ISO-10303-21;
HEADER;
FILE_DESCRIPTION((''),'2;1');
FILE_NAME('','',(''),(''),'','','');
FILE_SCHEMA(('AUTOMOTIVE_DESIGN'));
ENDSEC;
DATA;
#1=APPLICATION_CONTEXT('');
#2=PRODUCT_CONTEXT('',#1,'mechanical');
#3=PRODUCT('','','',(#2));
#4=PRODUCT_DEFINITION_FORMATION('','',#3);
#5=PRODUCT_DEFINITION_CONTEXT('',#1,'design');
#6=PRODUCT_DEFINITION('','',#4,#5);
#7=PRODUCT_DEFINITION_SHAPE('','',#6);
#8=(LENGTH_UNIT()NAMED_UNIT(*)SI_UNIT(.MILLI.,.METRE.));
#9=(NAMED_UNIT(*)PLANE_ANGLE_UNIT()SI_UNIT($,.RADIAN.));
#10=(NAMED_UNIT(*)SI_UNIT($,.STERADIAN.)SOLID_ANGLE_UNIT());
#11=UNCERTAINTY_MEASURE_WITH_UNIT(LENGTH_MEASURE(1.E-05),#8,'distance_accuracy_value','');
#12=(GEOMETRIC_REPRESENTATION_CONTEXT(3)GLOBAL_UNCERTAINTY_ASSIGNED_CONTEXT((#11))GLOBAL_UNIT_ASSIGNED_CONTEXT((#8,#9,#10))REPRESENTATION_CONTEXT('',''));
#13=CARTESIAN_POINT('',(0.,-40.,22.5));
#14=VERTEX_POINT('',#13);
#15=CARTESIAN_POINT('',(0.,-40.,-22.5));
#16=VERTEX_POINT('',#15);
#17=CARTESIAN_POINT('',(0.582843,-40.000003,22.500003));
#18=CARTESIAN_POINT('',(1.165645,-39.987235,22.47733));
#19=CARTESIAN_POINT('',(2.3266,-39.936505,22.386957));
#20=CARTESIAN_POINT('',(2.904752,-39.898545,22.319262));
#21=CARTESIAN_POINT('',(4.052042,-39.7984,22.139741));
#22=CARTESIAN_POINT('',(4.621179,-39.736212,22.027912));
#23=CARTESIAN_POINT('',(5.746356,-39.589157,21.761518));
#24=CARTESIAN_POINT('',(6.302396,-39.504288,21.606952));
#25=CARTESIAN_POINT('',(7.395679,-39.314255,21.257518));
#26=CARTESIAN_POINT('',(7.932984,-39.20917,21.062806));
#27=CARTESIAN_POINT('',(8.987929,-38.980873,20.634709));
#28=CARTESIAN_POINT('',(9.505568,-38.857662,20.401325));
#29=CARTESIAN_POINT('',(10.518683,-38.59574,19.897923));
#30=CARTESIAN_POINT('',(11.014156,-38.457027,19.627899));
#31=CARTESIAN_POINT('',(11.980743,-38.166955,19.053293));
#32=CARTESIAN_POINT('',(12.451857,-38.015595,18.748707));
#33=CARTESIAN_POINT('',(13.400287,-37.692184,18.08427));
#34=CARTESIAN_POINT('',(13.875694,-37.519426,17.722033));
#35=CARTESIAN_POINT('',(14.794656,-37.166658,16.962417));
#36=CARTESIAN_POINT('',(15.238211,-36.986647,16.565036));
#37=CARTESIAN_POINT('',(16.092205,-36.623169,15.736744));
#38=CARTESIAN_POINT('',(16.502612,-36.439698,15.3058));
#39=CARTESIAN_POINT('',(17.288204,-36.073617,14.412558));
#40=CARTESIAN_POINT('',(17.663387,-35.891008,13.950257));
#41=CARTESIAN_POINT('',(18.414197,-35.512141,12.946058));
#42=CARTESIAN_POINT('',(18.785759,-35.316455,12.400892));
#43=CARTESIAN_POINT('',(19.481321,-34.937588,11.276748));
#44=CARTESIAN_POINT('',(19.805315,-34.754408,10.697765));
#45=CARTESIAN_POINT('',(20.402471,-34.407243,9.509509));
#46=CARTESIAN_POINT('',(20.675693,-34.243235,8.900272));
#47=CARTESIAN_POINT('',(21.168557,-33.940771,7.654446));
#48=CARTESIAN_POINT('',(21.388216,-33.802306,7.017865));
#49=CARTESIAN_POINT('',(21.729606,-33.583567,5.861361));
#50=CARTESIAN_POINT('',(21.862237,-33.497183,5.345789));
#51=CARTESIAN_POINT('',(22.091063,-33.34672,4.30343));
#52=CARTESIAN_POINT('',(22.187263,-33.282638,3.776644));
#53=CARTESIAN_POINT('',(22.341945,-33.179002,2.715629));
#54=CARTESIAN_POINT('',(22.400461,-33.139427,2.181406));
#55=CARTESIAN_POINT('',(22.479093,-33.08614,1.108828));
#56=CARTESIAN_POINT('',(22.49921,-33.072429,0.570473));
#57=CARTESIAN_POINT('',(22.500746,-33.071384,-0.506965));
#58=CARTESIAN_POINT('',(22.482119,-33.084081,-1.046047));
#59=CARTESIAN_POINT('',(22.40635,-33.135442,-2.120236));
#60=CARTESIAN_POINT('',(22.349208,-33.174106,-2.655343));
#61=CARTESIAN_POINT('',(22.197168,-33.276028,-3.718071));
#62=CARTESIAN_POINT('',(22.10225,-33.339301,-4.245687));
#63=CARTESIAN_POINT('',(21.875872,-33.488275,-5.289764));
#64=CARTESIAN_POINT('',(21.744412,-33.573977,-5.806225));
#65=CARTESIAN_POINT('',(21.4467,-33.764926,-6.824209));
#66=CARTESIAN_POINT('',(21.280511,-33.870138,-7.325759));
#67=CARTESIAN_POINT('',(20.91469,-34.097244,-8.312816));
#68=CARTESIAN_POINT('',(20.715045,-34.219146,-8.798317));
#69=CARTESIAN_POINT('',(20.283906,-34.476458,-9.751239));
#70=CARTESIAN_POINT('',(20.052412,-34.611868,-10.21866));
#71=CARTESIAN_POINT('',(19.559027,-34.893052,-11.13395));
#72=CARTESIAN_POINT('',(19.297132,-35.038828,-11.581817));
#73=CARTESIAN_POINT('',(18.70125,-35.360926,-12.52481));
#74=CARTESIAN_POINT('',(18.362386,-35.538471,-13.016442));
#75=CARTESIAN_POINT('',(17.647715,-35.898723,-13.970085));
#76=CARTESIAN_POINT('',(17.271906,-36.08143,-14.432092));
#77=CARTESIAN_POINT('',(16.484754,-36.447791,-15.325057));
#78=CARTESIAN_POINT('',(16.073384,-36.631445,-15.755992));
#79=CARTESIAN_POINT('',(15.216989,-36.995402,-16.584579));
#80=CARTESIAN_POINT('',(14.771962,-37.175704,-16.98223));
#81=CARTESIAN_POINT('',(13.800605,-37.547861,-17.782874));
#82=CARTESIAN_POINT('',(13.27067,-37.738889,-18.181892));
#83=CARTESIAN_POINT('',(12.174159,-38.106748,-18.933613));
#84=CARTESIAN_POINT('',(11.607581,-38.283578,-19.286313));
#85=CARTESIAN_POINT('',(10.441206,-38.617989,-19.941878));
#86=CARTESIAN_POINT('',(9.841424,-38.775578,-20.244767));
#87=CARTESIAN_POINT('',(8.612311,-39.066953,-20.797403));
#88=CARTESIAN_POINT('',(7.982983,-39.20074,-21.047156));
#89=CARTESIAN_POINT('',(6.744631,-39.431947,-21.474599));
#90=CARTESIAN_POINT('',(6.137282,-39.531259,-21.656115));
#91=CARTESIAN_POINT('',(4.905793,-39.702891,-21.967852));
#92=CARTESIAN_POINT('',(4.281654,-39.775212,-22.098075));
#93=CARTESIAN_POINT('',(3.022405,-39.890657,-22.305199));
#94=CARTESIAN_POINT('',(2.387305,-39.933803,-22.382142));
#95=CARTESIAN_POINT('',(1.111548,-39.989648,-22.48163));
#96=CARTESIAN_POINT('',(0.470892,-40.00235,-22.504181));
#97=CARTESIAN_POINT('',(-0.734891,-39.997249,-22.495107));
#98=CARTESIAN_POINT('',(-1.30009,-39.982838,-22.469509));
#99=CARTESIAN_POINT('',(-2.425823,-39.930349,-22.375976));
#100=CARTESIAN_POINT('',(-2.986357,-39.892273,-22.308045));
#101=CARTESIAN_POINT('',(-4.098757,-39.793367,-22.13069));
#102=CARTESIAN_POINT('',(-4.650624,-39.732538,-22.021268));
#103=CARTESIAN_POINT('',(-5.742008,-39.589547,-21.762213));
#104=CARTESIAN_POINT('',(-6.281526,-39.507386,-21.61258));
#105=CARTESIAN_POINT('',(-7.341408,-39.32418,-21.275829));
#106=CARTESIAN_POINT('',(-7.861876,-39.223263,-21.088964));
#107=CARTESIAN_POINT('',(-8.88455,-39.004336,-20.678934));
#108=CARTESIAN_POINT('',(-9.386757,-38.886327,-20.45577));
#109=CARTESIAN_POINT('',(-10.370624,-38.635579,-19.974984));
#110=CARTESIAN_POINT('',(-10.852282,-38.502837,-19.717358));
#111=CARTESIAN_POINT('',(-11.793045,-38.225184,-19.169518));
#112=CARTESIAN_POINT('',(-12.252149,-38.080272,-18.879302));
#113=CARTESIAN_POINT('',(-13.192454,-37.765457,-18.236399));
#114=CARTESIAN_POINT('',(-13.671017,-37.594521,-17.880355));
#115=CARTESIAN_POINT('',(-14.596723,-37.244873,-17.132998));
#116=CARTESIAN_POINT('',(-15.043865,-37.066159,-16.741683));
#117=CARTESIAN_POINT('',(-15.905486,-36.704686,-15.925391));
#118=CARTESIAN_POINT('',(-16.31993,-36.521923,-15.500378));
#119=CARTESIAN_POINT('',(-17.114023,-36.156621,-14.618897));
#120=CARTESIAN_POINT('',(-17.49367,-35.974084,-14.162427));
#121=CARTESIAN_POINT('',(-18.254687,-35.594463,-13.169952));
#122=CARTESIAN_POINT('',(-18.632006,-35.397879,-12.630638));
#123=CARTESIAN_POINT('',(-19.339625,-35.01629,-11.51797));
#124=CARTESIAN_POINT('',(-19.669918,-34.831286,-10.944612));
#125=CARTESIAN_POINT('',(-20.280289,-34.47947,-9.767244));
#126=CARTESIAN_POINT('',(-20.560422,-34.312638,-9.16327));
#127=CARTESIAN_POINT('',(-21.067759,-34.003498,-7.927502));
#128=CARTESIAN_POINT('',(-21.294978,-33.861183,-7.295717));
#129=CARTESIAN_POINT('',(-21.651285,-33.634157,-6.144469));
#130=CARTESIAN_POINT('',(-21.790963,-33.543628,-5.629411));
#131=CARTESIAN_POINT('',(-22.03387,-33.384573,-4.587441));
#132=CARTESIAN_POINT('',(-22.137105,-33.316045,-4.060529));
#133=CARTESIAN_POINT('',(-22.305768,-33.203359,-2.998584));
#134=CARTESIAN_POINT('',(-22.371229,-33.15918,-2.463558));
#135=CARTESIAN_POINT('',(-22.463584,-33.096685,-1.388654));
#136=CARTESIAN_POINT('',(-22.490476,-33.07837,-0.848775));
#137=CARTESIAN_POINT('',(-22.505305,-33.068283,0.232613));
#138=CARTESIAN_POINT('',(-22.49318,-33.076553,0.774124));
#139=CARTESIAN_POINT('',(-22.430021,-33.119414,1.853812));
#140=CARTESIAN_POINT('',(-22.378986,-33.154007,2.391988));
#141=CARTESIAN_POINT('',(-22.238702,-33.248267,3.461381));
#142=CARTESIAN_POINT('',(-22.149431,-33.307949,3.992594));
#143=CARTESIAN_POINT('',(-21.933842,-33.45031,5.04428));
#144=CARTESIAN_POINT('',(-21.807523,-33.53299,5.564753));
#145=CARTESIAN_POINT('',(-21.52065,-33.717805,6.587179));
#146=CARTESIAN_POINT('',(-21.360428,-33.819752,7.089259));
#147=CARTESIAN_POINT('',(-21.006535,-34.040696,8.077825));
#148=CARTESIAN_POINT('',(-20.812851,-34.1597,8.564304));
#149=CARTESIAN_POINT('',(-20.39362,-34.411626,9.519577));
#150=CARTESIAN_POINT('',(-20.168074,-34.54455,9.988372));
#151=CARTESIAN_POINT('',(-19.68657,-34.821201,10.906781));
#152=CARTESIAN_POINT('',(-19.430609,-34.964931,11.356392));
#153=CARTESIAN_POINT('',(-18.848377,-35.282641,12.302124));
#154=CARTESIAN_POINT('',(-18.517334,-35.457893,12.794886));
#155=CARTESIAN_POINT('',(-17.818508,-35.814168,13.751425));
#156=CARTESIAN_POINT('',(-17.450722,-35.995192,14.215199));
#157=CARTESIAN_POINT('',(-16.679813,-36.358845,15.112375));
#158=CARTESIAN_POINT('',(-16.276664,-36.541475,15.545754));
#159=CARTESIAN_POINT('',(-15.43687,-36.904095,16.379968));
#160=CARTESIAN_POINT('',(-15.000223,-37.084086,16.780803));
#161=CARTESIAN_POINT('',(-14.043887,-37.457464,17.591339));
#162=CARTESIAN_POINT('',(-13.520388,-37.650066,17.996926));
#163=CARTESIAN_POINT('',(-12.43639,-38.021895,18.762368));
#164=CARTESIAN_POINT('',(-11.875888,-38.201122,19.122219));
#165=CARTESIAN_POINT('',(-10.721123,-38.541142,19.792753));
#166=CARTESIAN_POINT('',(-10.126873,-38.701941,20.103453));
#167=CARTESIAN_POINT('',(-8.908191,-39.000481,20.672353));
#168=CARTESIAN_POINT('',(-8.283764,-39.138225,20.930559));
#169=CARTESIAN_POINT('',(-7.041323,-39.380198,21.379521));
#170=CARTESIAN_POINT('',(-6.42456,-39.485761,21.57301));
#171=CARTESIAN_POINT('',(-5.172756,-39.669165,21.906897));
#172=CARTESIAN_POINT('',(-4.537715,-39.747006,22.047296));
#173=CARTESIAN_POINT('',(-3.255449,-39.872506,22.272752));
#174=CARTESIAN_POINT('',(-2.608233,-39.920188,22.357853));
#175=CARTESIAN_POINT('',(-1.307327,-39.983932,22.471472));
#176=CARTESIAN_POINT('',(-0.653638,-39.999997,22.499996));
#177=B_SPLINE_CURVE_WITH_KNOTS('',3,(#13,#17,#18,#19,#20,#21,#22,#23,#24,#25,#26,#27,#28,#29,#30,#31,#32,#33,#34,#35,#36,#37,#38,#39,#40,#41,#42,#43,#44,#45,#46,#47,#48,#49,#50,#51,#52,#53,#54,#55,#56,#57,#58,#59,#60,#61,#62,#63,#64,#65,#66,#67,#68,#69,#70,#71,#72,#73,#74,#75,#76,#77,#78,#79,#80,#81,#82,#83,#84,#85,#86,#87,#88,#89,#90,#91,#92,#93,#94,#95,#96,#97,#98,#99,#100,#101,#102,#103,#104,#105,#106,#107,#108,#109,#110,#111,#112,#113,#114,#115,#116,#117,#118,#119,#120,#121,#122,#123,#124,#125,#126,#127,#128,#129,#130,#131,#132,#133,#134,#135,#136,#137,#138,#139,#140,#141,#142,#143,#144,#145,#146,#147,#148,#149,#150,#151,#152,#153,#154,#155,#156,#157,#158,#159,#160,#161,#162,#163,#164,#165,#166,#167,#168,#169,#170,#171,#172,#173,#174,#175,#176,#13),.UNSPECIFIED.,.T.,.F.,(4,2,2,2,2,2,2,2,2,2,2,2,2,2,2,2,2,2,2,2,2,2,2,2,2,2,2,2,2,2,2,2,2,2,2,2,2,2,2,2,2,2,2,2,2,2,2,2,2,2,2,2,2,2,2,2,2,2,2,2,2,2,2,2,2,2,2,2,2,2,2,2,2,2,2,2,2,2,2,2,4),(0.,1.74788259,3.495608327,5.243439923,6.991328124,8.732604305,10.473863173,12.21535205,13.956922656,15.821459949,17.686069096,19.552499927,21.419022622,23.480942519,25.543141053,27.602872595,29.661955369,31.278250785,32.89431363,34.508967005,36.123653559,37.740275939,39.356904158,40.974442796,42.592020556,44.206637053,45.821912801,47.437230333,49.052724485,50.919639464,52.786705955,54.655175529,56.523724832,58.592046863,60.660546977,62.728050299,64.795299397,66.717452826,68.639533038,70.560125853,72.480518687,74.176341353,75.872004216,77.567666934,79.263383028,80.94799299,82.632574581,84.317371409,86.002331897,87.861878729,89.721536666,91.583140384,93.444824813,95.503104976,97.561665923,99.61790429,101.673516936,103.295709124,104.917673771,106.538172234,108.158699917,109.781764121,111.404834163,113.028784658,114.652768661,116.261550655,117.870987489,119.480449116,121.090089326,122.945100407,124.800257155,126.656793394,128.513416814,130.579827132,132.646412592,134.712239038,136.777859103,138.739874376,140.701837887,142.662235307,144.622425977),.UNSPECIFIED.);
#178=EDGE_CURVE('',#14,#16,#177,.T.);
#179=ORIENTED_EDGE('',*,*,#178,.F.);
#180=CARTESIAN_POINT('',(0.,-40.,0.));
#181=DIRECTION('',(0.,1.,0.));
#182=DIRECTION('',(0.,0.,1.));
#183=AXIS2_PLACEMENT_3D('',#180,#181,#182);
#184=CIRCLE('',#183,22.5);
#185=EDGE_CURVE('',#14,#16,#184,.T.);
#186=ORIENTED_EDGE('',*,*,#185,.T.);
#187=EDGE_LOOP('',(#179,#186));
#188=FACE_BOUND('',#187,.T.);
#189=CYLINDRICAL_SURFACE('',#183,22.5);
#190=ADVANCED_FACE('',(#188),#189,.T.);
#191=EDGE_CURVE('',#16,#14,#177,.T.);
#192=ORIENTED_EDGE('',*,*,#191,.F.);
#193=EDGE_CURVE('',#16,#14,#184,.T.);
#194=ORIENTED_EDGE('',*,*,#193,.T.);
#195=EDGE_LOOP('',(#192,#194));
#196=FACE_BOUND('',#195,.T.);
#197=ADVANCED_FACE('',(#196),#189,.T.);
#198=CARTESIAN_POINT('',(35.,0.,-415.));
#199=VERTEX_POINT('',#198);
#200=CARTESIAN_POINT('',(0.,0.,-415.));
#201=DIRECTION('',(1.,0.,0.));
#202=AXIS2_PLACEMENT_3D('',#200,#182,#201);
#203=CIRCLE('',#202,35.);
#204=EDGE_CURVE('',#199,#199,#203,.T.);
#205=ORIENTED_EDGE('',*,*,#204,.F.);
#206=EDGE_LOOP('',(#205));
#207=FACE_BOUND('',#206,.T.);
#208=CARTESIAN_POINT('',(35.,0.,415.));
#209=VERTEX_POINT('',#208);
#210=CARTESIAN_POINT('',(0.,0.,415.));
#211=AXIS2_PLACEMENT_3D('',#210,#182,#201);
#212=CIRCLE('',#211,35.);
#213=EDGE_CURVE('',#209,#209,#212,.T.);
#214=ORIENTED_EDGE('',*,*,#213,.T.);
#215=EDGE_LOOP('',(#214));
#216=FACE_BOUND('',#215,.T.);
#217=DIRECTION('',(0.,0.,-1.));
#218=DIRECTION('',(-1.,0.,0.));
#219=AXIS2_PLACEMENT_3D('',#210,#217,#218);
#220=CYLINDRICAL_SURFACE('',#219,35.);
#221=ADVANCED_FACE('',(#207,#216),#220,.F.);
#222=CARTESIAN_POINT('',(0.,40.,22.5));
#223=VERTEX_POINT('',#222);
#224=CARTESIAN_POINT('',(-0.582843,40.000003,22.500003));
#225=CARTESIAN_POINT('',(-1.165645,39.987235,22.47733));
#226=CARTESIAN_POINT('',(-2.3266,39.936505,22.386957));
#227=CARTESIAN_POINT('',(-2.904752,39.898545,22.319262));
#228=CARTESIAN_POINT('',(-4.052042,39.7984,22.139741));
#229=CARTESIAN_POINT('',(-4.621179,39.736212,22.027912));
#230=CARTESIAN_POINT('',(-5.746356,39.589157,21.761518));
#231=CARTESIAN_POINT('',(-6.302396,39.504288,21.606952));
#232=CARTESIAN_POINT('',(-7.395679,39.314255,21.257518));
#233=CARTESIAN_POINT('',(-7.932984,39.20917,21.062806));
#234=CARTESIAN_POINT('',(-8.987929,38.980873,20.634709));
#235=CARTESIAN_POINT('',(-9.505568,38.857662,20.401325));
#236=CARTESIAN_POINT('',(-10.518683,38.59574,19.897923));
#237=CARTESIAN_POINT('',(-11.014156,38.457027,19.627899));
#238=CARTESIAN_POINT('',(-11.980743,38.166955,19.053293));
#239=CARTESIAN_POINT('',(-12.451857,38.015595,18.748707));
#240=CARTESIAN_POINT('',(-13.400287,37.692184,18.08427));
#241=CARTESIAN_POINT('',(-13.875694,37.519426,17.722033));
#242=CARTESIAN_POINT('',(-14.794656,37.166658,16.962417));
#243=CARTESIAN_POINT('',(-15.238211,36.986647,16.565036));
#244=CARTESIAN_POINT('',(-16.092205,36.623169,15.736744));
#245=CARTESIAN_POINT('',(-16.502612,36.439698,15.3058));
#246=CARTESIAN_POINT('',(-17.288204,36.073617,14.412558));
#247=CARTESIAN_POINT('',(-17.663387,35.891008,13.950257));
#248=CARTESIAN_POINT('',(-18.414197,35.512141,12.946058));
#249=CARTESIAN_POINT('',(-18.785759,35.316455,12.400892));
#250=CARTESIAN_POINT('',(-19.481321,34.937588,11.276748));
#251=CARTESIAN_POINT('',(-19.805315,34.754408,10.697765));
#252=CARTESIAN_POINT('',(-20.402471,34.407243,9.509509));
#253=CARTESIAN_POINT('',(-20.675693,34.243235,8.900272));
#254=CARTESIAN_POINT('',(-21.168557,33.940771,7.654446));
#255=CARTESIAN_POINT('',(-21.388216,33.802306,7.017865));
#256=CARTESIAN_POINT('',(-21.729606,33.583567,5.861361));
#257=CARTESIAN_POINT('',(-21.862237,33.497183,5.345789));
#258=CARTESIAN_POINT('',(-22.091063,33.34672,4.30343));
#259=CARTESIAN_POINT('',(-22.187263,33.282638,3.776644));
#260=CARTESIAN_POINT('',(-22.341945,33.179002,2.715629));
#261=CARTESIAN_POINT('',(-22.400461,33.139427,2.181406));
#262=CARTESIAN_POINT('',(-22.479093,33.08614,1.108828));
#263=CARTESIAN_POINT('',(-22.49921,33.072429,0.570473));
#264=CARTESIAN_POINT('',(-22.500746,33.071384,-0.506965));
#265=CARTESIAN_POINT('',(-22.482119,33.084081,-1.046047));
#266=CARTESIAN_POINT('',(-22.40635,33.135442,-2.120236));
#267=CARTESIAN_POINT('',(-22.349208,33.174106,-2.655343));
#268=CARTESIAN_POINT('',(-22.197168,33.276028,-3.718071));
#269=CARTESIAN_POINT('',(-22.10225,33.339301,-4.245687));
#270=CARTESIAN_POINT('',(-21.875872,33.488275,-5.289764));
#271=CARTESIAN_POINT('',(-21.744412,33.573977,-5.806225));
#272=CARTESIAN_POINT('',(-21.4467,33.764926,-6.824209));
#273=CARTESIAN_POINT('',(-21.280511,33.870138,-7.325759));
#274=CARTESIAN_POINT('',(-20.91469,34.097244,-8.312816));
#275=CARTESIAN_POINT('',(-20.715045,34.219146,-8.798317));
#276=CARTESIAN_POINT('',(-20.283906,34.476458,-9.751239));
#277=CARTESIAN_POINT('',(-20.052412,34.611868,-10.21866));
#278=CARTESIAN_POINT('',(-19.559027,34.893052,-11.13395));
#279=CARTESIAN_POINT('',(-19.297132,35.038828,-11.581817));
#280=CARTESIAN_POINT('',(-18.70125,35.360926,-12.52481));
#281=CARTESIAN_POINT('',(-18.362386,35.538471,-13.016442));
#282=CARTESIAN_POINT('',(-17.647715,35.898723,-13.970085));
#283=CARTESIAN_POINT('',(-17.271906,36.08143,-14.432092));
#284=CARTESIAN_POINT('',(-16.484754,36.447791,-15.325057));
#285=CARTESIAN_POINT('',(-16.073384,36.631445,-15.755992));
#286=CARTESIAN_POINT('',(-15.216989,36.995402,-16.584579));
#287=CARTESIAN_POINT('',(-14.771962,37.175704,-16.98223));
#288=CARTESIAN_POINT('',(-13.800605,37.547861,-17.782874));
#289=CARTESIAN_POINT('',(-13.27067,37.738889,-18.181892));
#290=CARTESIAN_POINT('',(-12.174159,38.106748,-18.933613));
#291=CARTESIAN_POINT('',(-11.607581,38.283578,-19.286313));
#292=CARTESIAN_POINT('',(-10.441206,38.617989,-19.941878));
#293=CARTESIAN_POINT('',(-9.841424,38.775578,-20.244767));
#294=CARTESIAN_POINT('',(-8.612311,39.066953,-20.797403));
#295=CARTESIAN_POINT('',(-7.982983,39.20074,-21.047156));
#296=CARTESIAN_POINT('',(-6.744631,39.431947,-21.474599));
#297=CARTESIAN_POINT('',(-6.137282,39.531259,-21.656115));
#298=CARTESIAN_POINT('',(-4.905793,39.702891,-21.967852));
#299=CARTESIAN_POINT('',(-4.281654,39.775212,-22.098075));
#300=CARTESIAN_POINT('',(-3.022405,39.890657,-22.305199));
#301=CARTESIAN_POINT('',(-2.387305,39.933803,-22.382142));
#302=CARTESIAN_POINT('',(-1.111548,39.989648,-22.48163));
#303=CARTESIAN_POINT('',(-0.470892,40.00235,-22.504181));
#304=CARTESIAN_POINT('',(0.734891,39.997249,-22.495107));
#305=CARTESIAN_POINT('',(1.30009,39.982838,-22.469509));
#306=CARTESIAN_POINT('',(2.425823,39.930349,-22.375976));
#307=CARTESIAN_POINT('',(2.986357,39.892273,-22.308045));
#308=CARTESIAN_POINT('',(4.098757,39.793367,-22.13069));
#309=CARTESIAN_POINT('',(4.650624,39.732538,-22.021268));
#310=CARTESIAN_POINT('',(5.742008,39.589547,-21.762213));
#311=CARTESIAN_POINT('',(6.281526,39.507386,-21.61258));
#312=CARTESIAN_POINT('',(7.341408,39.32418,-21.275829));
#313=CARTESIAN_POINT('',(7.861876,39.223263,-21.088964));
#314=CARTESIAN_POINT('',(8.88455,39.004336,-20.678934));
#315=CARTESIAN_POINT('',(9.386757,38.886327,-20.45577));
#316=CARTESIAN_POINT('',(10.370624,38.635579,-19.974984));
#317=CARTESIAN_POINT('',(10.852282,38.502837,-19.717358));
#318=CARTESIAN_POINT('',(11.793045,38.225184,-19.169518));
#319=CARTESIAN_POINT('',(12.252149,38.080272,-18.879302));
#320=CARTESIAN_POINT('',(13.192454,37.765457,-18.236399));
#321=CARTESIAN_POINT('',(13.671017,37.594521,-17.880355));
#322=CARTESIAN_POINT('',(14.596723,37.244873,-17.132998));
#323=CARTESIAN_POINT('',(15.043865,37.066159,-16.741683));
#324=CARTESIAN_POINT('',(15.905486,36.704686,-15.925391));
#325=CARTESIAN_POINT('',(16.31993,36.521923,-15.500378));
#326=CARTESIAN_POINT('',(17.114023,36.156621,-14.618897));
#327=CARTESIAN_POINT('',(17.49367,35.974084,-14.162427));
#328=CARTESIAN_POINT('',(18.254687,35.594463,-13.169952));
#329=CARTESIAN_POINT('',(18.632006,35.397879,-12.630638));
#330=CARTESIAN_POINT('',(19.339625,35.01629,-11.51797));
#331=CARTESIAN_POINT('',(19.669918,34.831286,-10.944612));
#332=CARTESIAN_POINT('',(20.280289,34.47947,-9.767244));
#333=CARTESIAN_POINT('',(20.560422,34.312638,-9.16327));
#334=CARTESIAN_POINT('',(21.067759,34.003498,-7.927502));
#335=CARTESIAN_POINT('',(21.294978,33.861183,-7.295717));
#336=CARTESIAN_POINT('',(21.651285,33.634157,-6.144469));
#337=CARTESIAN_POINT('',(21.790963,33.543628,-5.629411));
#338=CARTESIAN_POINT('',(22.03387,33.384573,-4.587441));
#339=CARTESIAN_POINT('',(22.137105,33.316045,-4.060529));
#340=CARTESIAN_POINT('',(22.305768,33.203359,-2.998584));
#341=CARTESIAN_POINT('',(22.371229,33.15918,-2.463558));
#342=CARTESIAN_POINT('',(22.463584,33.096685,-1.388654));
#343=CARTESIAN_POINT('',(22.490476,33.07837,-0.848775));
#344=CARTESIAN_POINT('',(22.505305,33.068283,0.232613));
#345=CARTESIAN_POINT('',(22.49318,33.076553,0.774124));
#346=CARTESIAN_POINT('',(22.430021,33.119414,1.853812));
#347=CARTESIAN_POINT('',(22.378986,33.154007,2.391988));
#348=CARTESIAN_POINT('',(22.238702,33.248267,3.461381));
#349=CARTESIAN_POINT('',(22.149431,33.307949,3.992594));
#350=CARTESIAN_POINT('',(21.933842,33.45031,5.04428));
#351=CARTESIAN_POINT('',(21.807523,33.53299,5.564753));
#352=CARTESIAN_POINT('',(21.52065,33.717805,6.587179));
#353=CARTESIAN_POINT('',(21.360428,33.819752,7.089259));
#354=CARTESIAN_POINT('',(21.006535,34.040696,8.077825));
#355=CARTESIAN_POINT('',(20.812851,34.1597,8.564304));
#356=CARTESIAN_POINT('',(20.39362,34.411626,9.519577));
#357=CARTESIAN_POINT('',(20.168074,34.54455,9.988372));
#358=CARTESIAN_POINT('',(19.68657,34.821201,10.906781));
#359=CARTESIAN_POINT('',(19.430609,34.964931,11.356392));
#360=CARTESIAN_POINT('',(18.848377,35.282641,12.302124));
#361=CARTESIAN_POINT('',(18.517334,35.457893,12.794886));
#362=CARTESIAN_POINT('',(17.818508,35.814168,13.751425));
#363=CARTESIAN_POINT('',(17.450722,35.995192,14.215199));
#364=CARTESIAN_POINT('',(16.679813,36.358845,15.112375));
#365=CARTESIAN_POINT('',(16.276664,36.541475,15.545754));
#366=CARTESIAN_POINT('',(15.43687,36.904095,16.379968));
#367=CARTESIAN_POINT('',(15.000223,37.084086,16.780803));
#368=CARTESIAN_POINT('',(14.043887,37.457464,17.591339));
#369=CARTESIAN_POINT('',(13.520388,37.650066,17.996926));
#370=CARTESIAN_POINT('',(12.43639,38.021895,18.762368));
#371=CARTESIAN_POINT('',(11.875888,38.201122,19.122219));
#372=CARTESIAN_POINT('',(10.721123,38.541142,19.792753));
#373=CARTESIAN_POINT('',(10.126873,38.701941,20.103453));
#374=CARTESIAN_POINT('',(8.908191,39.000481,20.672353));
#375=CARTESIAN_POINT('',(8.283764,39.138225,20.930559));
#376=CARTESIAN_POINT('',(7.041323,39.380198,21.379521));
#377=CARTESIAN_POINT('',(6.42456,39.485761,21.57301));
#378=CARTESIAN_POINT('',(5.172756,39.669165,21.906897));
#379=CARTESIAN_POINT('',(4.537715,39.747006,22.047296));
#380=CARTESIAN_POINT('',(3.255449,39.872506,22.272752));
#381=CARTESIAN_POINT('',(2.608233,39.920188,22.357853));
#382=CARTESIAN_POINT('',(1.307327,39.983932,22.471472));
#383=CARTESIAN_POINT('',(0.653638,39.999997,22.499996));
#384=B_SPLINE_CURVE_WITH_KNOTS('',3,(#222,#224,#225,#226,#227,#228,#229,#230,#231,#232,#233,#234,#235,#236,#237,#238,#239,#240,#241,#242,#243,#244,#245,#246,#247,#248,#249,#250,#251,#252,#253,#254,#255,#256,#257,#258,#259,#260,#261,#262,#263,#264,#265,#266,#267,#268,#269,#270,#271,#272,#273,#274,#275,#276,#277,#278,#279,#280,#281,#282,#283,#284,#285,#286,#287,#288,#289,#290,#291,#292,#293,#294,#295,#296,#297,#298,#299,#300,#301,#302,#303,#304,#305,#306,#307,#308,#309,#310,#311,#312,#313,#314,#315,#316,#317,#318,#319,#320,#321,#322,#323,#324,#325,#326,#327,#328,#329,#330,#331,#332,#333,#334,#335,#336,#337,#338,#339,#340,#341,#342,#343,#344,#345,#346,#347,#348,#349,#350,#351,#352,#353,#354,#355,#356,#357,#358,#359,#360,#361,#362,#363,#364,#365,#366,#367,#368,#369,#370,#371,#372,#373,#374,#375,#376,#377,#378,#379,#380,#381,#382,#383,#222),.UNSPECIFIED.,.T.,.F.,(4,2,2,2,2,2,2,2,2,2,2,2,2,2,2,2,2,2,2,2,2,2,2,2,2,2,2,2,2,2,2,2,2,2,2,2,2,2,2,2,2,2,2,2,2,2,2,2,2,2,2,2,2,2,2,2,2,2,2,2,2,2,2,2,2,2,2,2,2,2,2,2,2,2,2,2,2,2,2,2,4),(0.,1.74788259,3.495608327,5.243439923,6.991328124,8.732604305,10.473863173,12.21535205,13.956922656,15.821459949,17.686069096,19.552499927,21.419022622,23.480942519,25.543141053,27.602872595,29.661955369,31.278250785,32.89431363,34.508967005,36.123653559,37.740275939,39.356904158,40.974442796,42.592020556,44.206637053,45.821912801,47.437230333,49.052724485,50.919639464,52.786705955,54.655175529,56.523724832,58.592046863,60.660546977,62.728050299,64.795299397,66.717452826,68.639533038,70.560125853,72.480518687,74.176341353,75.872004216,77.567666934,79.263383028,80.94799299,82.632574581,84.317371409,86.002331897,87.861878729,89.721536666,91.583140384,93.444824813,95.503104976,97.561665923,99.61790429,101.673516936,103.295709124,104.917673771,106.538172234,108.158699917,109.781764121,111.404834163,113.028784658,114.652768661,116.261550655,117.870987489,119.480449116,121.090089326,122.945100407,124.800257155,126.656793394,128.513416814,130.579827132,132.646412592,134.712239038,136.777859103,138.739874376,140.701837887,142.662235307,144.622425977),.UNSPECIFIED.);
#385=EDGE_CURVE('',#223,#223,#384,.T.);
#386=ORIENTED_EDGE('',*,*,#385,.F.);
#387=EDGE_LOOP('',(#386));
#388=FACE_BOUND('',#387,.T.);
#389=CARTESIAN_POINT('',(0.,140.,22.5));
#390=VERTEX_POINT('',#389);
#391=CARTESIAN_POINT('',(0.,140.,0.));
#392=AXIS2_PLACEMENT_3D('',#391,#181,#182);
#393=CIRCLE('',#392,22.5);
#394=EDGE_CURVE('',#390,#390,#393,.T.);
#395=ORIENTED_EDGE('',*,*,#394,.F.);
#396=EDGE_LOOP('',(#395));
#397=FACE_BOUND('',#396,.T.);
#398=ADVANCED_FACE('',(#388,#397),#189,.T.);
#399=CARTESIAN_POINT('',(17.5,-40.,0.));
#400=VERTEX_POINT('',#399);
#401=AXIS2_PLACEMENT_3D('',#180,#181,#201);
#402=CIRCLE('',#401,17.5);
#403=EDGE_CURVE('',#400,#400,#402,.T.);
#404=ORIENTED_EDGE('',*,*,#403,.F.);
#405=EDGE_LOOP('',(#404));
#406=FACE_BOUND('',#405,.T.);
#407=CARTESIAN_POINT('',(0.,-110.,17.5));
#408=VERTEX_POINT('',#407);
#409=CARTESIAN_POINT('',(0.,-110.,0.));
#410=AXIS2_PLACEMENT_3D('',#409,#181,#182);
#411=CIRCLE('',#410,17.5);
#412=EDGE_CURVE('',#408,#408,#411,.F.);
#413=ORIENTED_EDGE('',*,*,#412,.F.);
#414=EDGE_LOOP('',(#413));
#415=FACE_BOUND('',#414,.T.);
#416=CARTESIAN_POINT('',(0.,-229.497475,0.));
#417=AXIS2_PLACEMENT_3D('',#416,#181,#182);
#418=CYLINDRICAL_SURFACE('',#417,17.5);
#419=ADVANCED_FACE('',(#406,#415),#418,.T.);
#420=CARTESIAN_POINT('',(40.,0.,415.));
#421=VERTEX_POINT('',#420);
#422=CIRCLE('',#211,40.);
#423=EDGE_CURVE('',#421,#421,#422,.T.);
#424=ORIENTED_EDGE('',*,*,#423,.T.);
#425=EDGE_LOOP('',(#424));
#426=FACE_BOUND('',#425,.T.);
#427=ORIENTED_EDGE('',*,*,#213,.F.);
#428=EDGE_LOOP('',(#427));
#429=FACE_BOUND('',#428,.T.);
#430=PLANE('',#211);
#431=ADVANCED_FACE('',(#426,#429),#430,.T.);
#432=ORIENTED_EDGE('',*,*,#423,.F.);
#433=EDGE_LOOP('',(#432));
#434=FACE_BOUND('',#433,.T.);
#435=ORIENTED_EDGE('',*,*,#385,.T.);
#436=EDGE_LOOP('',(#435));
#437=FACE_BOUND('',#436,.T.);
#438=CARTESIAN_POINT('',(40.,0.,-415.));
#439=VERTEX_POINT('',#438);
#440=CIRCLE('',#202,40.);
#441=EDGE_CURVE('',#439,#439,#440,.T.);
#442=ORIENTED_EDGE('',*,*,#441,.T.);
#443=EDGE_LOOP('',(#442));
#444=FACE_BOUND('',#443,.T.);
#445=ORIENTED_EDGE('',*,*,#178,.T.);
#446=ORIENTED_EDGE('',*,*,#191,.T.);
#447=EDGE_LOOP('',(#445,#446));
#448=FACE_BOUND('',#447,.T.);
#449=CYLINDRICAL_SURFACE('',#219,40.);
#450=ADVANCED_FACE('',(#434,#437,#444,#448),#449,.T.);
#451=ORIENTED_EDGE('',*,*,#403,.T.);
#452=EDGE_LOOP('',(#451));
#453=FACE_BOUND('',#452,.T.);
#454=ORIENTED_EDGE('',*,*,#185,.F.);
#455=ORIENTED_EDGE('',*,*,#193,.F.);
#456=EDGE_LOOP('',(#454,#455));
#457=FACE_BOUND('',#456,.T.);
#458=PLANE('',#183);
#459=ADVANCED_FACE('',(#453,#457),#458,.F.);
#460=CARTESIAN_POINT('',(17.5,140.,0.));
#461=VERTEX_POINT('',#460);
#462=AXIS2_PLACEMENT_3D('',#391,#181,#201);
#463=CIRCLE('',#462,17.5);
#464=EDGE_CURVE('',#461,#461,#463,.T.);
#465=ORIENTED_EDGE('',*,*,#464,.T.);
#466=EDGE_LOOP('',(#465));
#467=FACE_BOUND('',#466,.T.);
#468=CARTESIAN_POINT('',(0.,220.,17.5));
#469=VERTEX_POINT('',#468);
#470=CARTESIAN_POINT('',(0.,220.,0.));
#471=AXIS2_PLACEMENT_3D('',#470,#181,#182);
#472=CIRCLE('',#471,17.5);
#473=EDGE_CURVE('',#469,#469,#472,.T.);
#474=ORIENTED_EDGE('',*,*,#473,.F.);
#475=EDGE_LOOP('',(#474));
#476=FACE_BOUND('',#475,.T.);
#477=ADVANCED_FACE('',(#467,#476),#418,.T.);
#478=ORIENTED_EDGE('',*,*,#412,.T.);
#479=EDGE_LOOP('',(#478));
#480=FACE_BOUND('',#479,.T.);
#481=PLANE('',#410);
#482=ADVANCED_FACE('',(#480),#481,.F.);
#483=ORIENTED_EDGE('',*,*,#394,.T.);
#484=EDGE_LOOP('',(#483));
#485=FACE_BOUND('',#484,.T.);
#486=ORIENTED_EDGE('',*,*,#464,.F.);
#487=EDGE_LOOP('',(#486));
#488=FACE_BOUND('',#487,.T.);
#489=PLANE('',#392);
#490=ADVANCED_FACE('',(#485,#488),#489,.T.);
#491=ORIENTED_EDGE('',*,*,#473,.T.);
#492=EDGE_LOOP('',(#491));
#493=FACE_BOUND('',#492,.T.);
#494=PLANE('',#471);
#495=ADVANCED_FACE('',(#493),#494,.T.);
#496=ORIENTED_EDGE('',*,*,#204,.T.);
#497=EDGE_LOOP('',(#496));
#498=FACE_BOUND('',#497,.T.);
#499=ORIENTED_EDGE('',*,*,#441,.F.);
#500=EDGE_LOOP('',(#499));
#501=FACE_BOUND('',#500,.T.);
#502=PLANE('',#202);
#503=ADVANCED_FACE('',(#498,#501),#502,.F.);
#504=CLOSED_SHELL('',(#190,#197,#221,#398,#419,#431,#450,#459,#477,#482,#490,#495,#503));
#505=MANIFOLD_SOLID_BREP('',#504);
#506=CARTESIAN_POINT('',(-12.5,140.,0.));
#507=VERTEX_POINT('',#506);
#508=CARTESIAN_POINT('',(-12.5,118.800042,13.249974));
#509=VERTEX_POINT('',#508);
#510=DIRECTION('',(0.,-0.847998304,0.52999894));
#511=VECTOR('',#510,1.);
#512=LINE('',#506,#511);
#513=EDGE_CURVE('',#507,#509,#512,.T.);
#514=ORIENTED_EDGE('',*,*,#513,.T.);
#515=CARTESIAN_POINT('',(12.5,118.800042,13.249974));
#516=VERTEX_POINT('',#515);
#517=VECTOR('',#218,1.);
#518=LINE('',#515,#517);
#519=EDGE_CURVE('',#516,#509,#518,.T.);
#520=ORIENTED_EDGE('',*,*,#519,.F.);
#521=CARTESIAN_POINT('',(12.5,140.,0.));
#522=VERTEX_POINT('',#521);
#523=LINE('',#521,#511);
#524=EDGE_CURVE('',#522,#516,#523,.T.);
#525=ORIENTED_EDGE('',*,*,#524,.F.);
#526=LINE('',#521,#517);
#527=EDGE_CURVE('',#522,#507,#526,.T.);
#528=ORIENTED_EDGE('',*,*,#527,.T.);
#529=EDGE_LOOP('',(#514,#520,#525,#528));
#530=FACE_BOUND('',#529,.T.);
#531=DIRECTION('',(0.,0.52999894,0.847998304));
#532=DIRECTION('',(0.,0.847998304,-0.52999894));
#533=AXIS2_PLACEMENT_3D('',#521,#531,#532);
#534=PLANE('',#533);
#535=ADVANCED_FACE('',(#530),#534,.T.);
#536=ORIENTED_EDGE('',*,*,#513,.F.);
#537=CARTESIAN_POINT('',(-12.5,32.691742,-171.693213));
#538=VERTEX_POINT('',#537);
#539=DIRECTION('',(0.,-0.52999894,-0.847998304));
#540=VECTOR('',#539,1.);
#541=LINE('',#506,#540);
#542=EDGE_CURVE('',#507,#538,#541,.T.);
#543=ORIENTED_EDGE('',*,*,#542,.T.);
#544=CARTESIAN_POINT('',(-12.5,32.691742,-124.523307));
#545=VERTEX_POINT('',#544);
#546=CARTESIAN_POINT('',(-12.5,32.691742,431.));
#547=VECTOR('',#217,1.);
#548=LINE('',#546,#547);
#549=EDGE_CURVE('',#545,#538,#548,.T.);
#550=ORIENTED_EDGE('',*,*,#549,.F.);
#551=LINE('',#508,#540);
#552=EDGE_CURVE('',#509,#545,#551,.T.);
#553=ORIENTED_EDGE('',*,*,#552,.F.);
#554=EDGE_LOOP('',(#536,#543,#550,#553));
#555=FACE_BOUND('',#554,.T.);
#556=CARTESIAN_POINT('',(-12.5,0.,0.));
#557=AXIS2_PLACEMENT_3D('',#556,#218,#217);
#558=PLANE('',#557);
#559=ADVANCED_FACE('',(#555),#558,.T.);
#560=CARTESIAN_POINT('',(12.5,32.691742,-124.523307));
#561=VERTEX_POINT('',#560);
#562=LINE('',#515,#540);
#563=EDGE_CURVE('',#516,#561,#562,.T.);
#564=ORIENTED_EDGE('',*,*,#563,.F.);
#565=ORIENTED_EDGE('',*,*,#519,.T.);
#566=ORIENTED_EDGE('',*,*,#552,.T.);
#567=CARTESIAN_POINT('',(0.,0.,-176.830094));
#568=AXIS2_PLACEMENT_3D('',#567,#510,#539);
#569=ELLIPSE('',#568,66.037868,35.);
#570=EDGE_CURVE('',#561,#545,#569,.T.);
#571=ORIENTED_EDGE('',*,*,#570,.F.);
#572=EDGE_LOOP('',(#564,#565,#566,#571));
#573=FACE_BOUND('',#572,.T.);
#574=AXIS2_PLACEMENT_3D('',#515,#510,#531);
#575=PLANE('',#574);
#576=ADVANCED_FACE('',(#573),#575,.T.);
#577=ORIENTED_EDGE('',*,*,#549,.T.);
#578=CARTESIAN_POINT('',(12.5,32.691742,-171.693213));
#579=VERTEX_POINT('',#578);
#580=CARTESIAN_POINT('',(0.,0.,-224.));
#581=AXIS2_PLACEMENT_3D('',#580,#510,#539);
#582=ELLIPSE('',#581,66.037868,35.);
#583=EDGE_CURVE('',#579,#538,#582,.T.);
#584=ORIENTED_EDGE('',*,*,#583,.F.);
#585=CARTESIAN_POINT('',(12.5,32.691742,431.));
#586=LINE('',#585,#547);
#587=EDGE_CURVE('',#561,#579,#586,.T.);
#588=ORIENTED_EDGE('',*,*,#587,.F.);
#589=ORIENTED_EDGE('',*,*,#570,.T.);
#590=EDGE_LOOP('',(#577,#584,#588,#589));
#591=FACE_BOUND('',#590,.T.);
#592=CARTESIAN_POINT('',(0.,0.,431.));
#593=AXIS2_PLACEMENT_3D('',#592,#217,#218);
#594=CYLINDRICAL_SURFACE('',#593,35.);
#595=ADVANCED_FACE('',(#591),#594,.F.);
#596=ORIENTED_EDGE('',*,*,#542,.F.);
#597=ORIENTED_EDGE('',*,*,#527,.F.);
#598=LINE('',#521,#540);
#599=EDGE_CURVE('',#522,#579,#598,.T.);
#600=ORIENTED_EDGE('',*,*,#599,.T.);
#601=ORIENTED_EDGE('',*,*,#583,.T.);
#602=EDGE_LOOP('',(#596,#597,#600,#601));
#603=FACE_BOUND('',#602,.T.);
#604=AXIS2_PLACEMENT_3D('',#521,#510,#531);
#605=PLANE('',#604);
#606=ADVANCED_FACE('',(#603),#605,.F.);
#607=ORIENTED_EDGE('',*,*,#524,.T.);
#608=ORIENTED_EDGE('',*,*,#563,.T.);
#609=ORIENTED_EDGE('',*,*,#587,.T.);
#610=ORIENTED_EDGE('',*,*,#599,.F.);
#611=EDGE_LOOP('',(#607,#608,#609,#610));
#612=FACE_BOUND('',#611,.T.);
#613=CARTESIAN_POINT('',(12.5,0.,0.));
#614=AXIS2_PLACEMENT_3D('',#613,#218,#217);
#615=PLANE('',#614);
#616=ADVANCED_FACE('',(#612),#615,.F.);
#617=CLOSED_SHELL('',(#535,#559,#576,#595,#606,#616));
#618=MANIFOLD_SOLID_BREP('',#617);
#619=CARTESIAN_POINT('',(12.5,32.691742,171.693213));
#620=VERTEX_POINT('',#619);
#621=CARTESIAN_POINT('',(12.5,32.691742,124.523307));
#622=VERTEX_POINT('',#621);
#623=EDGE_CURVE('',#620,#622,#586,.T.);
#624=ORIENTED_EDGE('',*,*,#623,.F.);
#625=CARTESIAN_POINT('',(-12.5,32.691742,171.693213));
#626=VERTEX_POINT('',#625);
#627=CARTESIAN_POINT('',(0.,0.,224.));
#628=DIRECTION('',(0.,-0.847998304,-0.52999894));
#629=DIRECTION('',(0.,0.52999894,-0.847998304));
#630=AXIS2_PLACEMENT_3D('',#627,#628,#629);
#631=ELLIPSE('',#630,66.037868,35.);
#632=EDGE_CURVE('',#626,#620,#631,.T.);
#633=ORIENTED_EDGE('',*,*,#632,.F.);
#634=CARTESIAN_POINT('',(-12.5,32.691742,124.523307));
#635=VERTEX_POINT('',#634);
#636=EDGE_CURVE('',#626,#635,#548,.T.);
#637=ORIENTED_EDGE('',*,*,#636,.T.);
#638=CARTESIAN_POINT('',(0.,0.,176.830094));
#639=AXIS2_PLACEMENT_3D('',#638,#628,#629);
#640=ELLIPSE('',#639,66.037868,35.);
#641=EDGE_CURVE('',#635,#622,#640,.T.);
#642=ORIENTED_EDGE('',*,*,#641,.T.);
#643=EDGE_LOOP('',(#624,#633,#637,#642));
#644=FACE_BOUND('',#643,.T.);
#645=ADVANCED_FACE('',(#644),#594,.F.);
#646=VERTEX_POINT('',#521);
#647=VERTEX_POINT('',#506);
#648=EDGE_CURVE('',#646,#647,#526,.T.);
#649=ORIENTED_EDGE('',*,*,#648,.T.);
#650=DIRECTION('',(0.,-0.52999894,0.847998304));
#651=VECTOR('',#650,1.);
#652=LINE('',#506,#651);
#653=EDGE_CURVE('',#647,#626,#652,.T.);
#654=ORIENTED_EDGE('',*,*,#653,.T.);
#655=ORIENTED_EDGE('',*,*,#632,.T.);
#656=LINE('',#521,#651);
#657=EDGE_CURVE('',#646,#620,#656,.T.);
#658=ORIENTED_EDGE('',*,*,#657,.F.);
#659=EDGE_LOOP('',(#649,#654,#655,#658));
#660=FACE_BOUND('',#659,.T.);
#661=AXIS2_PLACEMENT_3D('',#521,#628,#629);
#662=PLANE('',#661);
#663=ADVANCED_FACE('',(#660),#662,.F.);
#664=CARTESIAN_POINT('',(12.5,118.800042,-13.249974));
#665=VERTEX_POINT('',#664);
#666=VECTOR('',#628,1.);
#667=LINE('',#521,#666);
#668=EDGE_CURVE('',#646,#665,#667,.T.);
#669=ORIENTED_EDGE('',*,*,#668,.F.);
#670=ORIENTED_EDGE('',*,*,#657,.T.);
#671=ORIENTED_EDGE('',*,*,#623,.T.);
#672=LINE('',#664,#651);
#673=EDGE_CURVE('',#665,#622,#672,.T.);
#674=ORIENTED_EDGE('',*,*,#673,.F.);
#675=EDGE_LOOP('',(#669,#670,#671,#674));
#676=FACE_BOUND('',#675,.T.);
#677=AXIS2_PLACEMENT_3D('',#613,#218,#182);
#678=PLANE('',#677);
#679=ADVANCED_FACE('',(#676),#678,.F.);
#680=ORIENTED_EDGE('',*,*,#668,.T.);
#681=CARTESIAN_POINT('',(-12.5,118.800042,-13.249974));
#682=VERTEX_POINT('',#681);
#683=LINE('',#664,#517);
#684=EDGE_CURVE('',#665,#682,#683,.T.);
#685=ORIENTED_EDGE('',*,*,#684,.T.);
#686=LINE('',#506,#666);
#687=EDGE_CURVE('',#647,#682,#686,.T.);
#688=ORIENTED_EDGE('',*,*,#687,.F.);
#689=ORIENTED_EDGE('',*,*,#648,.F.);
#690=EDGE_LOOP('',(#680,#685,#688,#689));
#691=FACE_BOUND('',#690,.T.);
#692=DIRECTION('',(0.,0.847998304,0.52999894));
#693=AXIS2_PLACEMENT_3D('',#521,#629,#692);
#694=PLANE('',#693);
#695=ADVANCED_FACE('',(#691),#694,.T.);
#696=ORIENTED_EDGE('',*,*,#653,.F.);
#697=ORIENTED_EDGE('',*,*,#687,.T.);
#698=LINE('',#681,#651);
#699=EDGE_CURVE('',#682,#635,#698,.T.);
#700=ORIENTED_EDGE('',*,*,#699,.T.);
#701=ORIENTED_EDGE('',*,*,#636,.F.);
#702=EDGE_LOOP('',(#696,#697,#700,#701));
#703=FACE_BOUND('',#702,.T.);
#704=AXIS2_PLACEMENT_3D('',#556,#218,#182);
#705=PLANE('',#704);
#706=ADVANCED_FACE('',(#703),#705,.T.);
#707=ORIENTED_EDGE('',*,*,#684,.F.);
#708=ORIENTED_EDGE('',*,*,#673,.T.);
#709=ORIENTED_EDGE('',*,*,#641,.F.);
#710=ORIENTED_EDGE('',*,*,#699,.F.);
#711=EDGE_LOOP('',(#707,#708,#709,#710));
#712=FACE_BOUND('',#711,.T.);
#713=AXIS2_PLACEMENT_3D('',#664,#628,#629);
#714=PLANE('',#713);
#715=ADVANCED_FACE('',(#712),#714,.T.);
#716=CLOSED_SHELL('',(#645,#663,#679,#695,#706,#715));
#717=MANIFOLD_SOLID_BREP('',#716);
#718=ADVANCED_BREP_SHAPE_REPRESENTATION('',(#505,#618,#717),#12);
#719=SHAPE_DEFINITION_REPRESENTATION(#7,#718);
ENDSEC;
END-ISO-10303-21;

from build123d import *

# Parameters (mm, degrees)
SKETCH1_R                = 40
SKETCH1_R_2              = 35
EXTRUDE_THIN1_DEPTH      = 415
EXTRUDE_THIN2_DEPTH      = 140
EXTRUDE_THIN2_DEPTH_BACK = 40
SKETCH2_R                = 22.5
SKETCH2_R_2              = 17.5
BOSS_EXTRUDE1_DEPTH      = 80
BOSS_EXTRUDE1_DEPTH_BACK = 250
SKETCH3_R                = 17.5
EXTRUDE_THIN3_DEPTH      = 12.5
SKETCH5_R                = 35
CUT_EXTRUDE1_DEPTH       = 846


with BuildPart() as part:
    # Sketch1 → Extrude-Thin1 (new, symmetric)
    with BuildSketch(Plane.XY):
        Circle(SKETCH1_R)
        Circle(SKETCH1_R_2, mode=Mode.SUBTRACT)
    extrude(amount=EXTRUDE_THIN1_DEPTH, both=True)

    # Sketch2 → Extrude-Thin2 (add, two sides: drawn at the far end of the back side and taken through both)
    with BuildSketch(Plane(origin=(0, 0, 0), x_dir=(1, 0, 0), z_dir=(0, 1, 0)).offset(-EXTRUDE_THIN2_DEPTH_BACK)):
        Circle(SKETCH2_R)
        Circle(SKETCH2_R_2, mode=Mode.SUBTRACT)
    extrude(amount=EXTRUDE_THIN2_DEPTH + EXTRUDE_THIN2_DEPTH_BACK)

    # Sketch3 → Boss-Extrude1 (add, two sides: drawn at the far end of the back side and taken through both)
    with BuildSketch(Plane(origin=(0, 140, 0), x_dir=(1, 0, 0), z_dir=(0, 1, 0)).offset(-BOSS_EXTRUDE1_DEPTH_BACK)):
        with Locations(Location((0, 0, 0), (0, 0, 270))):
            Circle(SKETCH3_R)
    extrude(amount=BOSS_EXTRUDE1_DEPTH + BOSS_EXTRUDE1_DEPTH_BACK)


with BuildPart() as body_2:
    # Sketch4 → Extrude-Thin3 (new, symmetric)
    with BuildSketch(Plane(origin=(0, 0, 0), x_dir=(0, 0, -1), z_dir=(1, 0, 0))):
        Polygon((0, 140), (-200, 15), (-186.7500265, -6.1999576), (13.2499735, 118.8000424), align=None)
    extrude(amount=EXTRUDE_THIN3_DEPTH, both=True)


with BuildPart() as body_3:
    # Mirror1: mirrored copy
    add(body_2.part.mirror(Plane.XY))


with BuildPart() as cut_extrude1_tool:
    # Sketch5 → Cut-Extrude1 (new body)
    with BuildSketch(Plane(origin=(0, 0, -415), x_dir=(-1, 0, 0), z_dir=(0, 0, -1))):
        with Locations(Location((0, 0, 0), (0, 0, 180))):
            Circle(SKETCH5_R)
    extrude(amount=-CUT_EXTRUDE1_DEPTH)


with BuildPart() as part_1:
    add(part.part)

    # Cut-Extrude1: cut by cut_extrude1_tool
    add(cut_extrude1_tool.part, mode=Mode.SUBTRACT)


with BuildPart() as body_2_1:
    add(body_2.part)

    # Cut-Extrude1: cut by cut_extrude1_tool
    add(cut_extrude1_tool.part, mode=Mode.SUBTRACT)


with BuildPart() as body_3_1:
    add(body_3.part)

    # Cut-Extrude1: cut by cut_extrude1_tool
    add(cut_extrude1_tool.part, mode=Mode.SUBTRACT)


solid = Compound([part_1.part, body_2_1.part, body_3_1.part])
